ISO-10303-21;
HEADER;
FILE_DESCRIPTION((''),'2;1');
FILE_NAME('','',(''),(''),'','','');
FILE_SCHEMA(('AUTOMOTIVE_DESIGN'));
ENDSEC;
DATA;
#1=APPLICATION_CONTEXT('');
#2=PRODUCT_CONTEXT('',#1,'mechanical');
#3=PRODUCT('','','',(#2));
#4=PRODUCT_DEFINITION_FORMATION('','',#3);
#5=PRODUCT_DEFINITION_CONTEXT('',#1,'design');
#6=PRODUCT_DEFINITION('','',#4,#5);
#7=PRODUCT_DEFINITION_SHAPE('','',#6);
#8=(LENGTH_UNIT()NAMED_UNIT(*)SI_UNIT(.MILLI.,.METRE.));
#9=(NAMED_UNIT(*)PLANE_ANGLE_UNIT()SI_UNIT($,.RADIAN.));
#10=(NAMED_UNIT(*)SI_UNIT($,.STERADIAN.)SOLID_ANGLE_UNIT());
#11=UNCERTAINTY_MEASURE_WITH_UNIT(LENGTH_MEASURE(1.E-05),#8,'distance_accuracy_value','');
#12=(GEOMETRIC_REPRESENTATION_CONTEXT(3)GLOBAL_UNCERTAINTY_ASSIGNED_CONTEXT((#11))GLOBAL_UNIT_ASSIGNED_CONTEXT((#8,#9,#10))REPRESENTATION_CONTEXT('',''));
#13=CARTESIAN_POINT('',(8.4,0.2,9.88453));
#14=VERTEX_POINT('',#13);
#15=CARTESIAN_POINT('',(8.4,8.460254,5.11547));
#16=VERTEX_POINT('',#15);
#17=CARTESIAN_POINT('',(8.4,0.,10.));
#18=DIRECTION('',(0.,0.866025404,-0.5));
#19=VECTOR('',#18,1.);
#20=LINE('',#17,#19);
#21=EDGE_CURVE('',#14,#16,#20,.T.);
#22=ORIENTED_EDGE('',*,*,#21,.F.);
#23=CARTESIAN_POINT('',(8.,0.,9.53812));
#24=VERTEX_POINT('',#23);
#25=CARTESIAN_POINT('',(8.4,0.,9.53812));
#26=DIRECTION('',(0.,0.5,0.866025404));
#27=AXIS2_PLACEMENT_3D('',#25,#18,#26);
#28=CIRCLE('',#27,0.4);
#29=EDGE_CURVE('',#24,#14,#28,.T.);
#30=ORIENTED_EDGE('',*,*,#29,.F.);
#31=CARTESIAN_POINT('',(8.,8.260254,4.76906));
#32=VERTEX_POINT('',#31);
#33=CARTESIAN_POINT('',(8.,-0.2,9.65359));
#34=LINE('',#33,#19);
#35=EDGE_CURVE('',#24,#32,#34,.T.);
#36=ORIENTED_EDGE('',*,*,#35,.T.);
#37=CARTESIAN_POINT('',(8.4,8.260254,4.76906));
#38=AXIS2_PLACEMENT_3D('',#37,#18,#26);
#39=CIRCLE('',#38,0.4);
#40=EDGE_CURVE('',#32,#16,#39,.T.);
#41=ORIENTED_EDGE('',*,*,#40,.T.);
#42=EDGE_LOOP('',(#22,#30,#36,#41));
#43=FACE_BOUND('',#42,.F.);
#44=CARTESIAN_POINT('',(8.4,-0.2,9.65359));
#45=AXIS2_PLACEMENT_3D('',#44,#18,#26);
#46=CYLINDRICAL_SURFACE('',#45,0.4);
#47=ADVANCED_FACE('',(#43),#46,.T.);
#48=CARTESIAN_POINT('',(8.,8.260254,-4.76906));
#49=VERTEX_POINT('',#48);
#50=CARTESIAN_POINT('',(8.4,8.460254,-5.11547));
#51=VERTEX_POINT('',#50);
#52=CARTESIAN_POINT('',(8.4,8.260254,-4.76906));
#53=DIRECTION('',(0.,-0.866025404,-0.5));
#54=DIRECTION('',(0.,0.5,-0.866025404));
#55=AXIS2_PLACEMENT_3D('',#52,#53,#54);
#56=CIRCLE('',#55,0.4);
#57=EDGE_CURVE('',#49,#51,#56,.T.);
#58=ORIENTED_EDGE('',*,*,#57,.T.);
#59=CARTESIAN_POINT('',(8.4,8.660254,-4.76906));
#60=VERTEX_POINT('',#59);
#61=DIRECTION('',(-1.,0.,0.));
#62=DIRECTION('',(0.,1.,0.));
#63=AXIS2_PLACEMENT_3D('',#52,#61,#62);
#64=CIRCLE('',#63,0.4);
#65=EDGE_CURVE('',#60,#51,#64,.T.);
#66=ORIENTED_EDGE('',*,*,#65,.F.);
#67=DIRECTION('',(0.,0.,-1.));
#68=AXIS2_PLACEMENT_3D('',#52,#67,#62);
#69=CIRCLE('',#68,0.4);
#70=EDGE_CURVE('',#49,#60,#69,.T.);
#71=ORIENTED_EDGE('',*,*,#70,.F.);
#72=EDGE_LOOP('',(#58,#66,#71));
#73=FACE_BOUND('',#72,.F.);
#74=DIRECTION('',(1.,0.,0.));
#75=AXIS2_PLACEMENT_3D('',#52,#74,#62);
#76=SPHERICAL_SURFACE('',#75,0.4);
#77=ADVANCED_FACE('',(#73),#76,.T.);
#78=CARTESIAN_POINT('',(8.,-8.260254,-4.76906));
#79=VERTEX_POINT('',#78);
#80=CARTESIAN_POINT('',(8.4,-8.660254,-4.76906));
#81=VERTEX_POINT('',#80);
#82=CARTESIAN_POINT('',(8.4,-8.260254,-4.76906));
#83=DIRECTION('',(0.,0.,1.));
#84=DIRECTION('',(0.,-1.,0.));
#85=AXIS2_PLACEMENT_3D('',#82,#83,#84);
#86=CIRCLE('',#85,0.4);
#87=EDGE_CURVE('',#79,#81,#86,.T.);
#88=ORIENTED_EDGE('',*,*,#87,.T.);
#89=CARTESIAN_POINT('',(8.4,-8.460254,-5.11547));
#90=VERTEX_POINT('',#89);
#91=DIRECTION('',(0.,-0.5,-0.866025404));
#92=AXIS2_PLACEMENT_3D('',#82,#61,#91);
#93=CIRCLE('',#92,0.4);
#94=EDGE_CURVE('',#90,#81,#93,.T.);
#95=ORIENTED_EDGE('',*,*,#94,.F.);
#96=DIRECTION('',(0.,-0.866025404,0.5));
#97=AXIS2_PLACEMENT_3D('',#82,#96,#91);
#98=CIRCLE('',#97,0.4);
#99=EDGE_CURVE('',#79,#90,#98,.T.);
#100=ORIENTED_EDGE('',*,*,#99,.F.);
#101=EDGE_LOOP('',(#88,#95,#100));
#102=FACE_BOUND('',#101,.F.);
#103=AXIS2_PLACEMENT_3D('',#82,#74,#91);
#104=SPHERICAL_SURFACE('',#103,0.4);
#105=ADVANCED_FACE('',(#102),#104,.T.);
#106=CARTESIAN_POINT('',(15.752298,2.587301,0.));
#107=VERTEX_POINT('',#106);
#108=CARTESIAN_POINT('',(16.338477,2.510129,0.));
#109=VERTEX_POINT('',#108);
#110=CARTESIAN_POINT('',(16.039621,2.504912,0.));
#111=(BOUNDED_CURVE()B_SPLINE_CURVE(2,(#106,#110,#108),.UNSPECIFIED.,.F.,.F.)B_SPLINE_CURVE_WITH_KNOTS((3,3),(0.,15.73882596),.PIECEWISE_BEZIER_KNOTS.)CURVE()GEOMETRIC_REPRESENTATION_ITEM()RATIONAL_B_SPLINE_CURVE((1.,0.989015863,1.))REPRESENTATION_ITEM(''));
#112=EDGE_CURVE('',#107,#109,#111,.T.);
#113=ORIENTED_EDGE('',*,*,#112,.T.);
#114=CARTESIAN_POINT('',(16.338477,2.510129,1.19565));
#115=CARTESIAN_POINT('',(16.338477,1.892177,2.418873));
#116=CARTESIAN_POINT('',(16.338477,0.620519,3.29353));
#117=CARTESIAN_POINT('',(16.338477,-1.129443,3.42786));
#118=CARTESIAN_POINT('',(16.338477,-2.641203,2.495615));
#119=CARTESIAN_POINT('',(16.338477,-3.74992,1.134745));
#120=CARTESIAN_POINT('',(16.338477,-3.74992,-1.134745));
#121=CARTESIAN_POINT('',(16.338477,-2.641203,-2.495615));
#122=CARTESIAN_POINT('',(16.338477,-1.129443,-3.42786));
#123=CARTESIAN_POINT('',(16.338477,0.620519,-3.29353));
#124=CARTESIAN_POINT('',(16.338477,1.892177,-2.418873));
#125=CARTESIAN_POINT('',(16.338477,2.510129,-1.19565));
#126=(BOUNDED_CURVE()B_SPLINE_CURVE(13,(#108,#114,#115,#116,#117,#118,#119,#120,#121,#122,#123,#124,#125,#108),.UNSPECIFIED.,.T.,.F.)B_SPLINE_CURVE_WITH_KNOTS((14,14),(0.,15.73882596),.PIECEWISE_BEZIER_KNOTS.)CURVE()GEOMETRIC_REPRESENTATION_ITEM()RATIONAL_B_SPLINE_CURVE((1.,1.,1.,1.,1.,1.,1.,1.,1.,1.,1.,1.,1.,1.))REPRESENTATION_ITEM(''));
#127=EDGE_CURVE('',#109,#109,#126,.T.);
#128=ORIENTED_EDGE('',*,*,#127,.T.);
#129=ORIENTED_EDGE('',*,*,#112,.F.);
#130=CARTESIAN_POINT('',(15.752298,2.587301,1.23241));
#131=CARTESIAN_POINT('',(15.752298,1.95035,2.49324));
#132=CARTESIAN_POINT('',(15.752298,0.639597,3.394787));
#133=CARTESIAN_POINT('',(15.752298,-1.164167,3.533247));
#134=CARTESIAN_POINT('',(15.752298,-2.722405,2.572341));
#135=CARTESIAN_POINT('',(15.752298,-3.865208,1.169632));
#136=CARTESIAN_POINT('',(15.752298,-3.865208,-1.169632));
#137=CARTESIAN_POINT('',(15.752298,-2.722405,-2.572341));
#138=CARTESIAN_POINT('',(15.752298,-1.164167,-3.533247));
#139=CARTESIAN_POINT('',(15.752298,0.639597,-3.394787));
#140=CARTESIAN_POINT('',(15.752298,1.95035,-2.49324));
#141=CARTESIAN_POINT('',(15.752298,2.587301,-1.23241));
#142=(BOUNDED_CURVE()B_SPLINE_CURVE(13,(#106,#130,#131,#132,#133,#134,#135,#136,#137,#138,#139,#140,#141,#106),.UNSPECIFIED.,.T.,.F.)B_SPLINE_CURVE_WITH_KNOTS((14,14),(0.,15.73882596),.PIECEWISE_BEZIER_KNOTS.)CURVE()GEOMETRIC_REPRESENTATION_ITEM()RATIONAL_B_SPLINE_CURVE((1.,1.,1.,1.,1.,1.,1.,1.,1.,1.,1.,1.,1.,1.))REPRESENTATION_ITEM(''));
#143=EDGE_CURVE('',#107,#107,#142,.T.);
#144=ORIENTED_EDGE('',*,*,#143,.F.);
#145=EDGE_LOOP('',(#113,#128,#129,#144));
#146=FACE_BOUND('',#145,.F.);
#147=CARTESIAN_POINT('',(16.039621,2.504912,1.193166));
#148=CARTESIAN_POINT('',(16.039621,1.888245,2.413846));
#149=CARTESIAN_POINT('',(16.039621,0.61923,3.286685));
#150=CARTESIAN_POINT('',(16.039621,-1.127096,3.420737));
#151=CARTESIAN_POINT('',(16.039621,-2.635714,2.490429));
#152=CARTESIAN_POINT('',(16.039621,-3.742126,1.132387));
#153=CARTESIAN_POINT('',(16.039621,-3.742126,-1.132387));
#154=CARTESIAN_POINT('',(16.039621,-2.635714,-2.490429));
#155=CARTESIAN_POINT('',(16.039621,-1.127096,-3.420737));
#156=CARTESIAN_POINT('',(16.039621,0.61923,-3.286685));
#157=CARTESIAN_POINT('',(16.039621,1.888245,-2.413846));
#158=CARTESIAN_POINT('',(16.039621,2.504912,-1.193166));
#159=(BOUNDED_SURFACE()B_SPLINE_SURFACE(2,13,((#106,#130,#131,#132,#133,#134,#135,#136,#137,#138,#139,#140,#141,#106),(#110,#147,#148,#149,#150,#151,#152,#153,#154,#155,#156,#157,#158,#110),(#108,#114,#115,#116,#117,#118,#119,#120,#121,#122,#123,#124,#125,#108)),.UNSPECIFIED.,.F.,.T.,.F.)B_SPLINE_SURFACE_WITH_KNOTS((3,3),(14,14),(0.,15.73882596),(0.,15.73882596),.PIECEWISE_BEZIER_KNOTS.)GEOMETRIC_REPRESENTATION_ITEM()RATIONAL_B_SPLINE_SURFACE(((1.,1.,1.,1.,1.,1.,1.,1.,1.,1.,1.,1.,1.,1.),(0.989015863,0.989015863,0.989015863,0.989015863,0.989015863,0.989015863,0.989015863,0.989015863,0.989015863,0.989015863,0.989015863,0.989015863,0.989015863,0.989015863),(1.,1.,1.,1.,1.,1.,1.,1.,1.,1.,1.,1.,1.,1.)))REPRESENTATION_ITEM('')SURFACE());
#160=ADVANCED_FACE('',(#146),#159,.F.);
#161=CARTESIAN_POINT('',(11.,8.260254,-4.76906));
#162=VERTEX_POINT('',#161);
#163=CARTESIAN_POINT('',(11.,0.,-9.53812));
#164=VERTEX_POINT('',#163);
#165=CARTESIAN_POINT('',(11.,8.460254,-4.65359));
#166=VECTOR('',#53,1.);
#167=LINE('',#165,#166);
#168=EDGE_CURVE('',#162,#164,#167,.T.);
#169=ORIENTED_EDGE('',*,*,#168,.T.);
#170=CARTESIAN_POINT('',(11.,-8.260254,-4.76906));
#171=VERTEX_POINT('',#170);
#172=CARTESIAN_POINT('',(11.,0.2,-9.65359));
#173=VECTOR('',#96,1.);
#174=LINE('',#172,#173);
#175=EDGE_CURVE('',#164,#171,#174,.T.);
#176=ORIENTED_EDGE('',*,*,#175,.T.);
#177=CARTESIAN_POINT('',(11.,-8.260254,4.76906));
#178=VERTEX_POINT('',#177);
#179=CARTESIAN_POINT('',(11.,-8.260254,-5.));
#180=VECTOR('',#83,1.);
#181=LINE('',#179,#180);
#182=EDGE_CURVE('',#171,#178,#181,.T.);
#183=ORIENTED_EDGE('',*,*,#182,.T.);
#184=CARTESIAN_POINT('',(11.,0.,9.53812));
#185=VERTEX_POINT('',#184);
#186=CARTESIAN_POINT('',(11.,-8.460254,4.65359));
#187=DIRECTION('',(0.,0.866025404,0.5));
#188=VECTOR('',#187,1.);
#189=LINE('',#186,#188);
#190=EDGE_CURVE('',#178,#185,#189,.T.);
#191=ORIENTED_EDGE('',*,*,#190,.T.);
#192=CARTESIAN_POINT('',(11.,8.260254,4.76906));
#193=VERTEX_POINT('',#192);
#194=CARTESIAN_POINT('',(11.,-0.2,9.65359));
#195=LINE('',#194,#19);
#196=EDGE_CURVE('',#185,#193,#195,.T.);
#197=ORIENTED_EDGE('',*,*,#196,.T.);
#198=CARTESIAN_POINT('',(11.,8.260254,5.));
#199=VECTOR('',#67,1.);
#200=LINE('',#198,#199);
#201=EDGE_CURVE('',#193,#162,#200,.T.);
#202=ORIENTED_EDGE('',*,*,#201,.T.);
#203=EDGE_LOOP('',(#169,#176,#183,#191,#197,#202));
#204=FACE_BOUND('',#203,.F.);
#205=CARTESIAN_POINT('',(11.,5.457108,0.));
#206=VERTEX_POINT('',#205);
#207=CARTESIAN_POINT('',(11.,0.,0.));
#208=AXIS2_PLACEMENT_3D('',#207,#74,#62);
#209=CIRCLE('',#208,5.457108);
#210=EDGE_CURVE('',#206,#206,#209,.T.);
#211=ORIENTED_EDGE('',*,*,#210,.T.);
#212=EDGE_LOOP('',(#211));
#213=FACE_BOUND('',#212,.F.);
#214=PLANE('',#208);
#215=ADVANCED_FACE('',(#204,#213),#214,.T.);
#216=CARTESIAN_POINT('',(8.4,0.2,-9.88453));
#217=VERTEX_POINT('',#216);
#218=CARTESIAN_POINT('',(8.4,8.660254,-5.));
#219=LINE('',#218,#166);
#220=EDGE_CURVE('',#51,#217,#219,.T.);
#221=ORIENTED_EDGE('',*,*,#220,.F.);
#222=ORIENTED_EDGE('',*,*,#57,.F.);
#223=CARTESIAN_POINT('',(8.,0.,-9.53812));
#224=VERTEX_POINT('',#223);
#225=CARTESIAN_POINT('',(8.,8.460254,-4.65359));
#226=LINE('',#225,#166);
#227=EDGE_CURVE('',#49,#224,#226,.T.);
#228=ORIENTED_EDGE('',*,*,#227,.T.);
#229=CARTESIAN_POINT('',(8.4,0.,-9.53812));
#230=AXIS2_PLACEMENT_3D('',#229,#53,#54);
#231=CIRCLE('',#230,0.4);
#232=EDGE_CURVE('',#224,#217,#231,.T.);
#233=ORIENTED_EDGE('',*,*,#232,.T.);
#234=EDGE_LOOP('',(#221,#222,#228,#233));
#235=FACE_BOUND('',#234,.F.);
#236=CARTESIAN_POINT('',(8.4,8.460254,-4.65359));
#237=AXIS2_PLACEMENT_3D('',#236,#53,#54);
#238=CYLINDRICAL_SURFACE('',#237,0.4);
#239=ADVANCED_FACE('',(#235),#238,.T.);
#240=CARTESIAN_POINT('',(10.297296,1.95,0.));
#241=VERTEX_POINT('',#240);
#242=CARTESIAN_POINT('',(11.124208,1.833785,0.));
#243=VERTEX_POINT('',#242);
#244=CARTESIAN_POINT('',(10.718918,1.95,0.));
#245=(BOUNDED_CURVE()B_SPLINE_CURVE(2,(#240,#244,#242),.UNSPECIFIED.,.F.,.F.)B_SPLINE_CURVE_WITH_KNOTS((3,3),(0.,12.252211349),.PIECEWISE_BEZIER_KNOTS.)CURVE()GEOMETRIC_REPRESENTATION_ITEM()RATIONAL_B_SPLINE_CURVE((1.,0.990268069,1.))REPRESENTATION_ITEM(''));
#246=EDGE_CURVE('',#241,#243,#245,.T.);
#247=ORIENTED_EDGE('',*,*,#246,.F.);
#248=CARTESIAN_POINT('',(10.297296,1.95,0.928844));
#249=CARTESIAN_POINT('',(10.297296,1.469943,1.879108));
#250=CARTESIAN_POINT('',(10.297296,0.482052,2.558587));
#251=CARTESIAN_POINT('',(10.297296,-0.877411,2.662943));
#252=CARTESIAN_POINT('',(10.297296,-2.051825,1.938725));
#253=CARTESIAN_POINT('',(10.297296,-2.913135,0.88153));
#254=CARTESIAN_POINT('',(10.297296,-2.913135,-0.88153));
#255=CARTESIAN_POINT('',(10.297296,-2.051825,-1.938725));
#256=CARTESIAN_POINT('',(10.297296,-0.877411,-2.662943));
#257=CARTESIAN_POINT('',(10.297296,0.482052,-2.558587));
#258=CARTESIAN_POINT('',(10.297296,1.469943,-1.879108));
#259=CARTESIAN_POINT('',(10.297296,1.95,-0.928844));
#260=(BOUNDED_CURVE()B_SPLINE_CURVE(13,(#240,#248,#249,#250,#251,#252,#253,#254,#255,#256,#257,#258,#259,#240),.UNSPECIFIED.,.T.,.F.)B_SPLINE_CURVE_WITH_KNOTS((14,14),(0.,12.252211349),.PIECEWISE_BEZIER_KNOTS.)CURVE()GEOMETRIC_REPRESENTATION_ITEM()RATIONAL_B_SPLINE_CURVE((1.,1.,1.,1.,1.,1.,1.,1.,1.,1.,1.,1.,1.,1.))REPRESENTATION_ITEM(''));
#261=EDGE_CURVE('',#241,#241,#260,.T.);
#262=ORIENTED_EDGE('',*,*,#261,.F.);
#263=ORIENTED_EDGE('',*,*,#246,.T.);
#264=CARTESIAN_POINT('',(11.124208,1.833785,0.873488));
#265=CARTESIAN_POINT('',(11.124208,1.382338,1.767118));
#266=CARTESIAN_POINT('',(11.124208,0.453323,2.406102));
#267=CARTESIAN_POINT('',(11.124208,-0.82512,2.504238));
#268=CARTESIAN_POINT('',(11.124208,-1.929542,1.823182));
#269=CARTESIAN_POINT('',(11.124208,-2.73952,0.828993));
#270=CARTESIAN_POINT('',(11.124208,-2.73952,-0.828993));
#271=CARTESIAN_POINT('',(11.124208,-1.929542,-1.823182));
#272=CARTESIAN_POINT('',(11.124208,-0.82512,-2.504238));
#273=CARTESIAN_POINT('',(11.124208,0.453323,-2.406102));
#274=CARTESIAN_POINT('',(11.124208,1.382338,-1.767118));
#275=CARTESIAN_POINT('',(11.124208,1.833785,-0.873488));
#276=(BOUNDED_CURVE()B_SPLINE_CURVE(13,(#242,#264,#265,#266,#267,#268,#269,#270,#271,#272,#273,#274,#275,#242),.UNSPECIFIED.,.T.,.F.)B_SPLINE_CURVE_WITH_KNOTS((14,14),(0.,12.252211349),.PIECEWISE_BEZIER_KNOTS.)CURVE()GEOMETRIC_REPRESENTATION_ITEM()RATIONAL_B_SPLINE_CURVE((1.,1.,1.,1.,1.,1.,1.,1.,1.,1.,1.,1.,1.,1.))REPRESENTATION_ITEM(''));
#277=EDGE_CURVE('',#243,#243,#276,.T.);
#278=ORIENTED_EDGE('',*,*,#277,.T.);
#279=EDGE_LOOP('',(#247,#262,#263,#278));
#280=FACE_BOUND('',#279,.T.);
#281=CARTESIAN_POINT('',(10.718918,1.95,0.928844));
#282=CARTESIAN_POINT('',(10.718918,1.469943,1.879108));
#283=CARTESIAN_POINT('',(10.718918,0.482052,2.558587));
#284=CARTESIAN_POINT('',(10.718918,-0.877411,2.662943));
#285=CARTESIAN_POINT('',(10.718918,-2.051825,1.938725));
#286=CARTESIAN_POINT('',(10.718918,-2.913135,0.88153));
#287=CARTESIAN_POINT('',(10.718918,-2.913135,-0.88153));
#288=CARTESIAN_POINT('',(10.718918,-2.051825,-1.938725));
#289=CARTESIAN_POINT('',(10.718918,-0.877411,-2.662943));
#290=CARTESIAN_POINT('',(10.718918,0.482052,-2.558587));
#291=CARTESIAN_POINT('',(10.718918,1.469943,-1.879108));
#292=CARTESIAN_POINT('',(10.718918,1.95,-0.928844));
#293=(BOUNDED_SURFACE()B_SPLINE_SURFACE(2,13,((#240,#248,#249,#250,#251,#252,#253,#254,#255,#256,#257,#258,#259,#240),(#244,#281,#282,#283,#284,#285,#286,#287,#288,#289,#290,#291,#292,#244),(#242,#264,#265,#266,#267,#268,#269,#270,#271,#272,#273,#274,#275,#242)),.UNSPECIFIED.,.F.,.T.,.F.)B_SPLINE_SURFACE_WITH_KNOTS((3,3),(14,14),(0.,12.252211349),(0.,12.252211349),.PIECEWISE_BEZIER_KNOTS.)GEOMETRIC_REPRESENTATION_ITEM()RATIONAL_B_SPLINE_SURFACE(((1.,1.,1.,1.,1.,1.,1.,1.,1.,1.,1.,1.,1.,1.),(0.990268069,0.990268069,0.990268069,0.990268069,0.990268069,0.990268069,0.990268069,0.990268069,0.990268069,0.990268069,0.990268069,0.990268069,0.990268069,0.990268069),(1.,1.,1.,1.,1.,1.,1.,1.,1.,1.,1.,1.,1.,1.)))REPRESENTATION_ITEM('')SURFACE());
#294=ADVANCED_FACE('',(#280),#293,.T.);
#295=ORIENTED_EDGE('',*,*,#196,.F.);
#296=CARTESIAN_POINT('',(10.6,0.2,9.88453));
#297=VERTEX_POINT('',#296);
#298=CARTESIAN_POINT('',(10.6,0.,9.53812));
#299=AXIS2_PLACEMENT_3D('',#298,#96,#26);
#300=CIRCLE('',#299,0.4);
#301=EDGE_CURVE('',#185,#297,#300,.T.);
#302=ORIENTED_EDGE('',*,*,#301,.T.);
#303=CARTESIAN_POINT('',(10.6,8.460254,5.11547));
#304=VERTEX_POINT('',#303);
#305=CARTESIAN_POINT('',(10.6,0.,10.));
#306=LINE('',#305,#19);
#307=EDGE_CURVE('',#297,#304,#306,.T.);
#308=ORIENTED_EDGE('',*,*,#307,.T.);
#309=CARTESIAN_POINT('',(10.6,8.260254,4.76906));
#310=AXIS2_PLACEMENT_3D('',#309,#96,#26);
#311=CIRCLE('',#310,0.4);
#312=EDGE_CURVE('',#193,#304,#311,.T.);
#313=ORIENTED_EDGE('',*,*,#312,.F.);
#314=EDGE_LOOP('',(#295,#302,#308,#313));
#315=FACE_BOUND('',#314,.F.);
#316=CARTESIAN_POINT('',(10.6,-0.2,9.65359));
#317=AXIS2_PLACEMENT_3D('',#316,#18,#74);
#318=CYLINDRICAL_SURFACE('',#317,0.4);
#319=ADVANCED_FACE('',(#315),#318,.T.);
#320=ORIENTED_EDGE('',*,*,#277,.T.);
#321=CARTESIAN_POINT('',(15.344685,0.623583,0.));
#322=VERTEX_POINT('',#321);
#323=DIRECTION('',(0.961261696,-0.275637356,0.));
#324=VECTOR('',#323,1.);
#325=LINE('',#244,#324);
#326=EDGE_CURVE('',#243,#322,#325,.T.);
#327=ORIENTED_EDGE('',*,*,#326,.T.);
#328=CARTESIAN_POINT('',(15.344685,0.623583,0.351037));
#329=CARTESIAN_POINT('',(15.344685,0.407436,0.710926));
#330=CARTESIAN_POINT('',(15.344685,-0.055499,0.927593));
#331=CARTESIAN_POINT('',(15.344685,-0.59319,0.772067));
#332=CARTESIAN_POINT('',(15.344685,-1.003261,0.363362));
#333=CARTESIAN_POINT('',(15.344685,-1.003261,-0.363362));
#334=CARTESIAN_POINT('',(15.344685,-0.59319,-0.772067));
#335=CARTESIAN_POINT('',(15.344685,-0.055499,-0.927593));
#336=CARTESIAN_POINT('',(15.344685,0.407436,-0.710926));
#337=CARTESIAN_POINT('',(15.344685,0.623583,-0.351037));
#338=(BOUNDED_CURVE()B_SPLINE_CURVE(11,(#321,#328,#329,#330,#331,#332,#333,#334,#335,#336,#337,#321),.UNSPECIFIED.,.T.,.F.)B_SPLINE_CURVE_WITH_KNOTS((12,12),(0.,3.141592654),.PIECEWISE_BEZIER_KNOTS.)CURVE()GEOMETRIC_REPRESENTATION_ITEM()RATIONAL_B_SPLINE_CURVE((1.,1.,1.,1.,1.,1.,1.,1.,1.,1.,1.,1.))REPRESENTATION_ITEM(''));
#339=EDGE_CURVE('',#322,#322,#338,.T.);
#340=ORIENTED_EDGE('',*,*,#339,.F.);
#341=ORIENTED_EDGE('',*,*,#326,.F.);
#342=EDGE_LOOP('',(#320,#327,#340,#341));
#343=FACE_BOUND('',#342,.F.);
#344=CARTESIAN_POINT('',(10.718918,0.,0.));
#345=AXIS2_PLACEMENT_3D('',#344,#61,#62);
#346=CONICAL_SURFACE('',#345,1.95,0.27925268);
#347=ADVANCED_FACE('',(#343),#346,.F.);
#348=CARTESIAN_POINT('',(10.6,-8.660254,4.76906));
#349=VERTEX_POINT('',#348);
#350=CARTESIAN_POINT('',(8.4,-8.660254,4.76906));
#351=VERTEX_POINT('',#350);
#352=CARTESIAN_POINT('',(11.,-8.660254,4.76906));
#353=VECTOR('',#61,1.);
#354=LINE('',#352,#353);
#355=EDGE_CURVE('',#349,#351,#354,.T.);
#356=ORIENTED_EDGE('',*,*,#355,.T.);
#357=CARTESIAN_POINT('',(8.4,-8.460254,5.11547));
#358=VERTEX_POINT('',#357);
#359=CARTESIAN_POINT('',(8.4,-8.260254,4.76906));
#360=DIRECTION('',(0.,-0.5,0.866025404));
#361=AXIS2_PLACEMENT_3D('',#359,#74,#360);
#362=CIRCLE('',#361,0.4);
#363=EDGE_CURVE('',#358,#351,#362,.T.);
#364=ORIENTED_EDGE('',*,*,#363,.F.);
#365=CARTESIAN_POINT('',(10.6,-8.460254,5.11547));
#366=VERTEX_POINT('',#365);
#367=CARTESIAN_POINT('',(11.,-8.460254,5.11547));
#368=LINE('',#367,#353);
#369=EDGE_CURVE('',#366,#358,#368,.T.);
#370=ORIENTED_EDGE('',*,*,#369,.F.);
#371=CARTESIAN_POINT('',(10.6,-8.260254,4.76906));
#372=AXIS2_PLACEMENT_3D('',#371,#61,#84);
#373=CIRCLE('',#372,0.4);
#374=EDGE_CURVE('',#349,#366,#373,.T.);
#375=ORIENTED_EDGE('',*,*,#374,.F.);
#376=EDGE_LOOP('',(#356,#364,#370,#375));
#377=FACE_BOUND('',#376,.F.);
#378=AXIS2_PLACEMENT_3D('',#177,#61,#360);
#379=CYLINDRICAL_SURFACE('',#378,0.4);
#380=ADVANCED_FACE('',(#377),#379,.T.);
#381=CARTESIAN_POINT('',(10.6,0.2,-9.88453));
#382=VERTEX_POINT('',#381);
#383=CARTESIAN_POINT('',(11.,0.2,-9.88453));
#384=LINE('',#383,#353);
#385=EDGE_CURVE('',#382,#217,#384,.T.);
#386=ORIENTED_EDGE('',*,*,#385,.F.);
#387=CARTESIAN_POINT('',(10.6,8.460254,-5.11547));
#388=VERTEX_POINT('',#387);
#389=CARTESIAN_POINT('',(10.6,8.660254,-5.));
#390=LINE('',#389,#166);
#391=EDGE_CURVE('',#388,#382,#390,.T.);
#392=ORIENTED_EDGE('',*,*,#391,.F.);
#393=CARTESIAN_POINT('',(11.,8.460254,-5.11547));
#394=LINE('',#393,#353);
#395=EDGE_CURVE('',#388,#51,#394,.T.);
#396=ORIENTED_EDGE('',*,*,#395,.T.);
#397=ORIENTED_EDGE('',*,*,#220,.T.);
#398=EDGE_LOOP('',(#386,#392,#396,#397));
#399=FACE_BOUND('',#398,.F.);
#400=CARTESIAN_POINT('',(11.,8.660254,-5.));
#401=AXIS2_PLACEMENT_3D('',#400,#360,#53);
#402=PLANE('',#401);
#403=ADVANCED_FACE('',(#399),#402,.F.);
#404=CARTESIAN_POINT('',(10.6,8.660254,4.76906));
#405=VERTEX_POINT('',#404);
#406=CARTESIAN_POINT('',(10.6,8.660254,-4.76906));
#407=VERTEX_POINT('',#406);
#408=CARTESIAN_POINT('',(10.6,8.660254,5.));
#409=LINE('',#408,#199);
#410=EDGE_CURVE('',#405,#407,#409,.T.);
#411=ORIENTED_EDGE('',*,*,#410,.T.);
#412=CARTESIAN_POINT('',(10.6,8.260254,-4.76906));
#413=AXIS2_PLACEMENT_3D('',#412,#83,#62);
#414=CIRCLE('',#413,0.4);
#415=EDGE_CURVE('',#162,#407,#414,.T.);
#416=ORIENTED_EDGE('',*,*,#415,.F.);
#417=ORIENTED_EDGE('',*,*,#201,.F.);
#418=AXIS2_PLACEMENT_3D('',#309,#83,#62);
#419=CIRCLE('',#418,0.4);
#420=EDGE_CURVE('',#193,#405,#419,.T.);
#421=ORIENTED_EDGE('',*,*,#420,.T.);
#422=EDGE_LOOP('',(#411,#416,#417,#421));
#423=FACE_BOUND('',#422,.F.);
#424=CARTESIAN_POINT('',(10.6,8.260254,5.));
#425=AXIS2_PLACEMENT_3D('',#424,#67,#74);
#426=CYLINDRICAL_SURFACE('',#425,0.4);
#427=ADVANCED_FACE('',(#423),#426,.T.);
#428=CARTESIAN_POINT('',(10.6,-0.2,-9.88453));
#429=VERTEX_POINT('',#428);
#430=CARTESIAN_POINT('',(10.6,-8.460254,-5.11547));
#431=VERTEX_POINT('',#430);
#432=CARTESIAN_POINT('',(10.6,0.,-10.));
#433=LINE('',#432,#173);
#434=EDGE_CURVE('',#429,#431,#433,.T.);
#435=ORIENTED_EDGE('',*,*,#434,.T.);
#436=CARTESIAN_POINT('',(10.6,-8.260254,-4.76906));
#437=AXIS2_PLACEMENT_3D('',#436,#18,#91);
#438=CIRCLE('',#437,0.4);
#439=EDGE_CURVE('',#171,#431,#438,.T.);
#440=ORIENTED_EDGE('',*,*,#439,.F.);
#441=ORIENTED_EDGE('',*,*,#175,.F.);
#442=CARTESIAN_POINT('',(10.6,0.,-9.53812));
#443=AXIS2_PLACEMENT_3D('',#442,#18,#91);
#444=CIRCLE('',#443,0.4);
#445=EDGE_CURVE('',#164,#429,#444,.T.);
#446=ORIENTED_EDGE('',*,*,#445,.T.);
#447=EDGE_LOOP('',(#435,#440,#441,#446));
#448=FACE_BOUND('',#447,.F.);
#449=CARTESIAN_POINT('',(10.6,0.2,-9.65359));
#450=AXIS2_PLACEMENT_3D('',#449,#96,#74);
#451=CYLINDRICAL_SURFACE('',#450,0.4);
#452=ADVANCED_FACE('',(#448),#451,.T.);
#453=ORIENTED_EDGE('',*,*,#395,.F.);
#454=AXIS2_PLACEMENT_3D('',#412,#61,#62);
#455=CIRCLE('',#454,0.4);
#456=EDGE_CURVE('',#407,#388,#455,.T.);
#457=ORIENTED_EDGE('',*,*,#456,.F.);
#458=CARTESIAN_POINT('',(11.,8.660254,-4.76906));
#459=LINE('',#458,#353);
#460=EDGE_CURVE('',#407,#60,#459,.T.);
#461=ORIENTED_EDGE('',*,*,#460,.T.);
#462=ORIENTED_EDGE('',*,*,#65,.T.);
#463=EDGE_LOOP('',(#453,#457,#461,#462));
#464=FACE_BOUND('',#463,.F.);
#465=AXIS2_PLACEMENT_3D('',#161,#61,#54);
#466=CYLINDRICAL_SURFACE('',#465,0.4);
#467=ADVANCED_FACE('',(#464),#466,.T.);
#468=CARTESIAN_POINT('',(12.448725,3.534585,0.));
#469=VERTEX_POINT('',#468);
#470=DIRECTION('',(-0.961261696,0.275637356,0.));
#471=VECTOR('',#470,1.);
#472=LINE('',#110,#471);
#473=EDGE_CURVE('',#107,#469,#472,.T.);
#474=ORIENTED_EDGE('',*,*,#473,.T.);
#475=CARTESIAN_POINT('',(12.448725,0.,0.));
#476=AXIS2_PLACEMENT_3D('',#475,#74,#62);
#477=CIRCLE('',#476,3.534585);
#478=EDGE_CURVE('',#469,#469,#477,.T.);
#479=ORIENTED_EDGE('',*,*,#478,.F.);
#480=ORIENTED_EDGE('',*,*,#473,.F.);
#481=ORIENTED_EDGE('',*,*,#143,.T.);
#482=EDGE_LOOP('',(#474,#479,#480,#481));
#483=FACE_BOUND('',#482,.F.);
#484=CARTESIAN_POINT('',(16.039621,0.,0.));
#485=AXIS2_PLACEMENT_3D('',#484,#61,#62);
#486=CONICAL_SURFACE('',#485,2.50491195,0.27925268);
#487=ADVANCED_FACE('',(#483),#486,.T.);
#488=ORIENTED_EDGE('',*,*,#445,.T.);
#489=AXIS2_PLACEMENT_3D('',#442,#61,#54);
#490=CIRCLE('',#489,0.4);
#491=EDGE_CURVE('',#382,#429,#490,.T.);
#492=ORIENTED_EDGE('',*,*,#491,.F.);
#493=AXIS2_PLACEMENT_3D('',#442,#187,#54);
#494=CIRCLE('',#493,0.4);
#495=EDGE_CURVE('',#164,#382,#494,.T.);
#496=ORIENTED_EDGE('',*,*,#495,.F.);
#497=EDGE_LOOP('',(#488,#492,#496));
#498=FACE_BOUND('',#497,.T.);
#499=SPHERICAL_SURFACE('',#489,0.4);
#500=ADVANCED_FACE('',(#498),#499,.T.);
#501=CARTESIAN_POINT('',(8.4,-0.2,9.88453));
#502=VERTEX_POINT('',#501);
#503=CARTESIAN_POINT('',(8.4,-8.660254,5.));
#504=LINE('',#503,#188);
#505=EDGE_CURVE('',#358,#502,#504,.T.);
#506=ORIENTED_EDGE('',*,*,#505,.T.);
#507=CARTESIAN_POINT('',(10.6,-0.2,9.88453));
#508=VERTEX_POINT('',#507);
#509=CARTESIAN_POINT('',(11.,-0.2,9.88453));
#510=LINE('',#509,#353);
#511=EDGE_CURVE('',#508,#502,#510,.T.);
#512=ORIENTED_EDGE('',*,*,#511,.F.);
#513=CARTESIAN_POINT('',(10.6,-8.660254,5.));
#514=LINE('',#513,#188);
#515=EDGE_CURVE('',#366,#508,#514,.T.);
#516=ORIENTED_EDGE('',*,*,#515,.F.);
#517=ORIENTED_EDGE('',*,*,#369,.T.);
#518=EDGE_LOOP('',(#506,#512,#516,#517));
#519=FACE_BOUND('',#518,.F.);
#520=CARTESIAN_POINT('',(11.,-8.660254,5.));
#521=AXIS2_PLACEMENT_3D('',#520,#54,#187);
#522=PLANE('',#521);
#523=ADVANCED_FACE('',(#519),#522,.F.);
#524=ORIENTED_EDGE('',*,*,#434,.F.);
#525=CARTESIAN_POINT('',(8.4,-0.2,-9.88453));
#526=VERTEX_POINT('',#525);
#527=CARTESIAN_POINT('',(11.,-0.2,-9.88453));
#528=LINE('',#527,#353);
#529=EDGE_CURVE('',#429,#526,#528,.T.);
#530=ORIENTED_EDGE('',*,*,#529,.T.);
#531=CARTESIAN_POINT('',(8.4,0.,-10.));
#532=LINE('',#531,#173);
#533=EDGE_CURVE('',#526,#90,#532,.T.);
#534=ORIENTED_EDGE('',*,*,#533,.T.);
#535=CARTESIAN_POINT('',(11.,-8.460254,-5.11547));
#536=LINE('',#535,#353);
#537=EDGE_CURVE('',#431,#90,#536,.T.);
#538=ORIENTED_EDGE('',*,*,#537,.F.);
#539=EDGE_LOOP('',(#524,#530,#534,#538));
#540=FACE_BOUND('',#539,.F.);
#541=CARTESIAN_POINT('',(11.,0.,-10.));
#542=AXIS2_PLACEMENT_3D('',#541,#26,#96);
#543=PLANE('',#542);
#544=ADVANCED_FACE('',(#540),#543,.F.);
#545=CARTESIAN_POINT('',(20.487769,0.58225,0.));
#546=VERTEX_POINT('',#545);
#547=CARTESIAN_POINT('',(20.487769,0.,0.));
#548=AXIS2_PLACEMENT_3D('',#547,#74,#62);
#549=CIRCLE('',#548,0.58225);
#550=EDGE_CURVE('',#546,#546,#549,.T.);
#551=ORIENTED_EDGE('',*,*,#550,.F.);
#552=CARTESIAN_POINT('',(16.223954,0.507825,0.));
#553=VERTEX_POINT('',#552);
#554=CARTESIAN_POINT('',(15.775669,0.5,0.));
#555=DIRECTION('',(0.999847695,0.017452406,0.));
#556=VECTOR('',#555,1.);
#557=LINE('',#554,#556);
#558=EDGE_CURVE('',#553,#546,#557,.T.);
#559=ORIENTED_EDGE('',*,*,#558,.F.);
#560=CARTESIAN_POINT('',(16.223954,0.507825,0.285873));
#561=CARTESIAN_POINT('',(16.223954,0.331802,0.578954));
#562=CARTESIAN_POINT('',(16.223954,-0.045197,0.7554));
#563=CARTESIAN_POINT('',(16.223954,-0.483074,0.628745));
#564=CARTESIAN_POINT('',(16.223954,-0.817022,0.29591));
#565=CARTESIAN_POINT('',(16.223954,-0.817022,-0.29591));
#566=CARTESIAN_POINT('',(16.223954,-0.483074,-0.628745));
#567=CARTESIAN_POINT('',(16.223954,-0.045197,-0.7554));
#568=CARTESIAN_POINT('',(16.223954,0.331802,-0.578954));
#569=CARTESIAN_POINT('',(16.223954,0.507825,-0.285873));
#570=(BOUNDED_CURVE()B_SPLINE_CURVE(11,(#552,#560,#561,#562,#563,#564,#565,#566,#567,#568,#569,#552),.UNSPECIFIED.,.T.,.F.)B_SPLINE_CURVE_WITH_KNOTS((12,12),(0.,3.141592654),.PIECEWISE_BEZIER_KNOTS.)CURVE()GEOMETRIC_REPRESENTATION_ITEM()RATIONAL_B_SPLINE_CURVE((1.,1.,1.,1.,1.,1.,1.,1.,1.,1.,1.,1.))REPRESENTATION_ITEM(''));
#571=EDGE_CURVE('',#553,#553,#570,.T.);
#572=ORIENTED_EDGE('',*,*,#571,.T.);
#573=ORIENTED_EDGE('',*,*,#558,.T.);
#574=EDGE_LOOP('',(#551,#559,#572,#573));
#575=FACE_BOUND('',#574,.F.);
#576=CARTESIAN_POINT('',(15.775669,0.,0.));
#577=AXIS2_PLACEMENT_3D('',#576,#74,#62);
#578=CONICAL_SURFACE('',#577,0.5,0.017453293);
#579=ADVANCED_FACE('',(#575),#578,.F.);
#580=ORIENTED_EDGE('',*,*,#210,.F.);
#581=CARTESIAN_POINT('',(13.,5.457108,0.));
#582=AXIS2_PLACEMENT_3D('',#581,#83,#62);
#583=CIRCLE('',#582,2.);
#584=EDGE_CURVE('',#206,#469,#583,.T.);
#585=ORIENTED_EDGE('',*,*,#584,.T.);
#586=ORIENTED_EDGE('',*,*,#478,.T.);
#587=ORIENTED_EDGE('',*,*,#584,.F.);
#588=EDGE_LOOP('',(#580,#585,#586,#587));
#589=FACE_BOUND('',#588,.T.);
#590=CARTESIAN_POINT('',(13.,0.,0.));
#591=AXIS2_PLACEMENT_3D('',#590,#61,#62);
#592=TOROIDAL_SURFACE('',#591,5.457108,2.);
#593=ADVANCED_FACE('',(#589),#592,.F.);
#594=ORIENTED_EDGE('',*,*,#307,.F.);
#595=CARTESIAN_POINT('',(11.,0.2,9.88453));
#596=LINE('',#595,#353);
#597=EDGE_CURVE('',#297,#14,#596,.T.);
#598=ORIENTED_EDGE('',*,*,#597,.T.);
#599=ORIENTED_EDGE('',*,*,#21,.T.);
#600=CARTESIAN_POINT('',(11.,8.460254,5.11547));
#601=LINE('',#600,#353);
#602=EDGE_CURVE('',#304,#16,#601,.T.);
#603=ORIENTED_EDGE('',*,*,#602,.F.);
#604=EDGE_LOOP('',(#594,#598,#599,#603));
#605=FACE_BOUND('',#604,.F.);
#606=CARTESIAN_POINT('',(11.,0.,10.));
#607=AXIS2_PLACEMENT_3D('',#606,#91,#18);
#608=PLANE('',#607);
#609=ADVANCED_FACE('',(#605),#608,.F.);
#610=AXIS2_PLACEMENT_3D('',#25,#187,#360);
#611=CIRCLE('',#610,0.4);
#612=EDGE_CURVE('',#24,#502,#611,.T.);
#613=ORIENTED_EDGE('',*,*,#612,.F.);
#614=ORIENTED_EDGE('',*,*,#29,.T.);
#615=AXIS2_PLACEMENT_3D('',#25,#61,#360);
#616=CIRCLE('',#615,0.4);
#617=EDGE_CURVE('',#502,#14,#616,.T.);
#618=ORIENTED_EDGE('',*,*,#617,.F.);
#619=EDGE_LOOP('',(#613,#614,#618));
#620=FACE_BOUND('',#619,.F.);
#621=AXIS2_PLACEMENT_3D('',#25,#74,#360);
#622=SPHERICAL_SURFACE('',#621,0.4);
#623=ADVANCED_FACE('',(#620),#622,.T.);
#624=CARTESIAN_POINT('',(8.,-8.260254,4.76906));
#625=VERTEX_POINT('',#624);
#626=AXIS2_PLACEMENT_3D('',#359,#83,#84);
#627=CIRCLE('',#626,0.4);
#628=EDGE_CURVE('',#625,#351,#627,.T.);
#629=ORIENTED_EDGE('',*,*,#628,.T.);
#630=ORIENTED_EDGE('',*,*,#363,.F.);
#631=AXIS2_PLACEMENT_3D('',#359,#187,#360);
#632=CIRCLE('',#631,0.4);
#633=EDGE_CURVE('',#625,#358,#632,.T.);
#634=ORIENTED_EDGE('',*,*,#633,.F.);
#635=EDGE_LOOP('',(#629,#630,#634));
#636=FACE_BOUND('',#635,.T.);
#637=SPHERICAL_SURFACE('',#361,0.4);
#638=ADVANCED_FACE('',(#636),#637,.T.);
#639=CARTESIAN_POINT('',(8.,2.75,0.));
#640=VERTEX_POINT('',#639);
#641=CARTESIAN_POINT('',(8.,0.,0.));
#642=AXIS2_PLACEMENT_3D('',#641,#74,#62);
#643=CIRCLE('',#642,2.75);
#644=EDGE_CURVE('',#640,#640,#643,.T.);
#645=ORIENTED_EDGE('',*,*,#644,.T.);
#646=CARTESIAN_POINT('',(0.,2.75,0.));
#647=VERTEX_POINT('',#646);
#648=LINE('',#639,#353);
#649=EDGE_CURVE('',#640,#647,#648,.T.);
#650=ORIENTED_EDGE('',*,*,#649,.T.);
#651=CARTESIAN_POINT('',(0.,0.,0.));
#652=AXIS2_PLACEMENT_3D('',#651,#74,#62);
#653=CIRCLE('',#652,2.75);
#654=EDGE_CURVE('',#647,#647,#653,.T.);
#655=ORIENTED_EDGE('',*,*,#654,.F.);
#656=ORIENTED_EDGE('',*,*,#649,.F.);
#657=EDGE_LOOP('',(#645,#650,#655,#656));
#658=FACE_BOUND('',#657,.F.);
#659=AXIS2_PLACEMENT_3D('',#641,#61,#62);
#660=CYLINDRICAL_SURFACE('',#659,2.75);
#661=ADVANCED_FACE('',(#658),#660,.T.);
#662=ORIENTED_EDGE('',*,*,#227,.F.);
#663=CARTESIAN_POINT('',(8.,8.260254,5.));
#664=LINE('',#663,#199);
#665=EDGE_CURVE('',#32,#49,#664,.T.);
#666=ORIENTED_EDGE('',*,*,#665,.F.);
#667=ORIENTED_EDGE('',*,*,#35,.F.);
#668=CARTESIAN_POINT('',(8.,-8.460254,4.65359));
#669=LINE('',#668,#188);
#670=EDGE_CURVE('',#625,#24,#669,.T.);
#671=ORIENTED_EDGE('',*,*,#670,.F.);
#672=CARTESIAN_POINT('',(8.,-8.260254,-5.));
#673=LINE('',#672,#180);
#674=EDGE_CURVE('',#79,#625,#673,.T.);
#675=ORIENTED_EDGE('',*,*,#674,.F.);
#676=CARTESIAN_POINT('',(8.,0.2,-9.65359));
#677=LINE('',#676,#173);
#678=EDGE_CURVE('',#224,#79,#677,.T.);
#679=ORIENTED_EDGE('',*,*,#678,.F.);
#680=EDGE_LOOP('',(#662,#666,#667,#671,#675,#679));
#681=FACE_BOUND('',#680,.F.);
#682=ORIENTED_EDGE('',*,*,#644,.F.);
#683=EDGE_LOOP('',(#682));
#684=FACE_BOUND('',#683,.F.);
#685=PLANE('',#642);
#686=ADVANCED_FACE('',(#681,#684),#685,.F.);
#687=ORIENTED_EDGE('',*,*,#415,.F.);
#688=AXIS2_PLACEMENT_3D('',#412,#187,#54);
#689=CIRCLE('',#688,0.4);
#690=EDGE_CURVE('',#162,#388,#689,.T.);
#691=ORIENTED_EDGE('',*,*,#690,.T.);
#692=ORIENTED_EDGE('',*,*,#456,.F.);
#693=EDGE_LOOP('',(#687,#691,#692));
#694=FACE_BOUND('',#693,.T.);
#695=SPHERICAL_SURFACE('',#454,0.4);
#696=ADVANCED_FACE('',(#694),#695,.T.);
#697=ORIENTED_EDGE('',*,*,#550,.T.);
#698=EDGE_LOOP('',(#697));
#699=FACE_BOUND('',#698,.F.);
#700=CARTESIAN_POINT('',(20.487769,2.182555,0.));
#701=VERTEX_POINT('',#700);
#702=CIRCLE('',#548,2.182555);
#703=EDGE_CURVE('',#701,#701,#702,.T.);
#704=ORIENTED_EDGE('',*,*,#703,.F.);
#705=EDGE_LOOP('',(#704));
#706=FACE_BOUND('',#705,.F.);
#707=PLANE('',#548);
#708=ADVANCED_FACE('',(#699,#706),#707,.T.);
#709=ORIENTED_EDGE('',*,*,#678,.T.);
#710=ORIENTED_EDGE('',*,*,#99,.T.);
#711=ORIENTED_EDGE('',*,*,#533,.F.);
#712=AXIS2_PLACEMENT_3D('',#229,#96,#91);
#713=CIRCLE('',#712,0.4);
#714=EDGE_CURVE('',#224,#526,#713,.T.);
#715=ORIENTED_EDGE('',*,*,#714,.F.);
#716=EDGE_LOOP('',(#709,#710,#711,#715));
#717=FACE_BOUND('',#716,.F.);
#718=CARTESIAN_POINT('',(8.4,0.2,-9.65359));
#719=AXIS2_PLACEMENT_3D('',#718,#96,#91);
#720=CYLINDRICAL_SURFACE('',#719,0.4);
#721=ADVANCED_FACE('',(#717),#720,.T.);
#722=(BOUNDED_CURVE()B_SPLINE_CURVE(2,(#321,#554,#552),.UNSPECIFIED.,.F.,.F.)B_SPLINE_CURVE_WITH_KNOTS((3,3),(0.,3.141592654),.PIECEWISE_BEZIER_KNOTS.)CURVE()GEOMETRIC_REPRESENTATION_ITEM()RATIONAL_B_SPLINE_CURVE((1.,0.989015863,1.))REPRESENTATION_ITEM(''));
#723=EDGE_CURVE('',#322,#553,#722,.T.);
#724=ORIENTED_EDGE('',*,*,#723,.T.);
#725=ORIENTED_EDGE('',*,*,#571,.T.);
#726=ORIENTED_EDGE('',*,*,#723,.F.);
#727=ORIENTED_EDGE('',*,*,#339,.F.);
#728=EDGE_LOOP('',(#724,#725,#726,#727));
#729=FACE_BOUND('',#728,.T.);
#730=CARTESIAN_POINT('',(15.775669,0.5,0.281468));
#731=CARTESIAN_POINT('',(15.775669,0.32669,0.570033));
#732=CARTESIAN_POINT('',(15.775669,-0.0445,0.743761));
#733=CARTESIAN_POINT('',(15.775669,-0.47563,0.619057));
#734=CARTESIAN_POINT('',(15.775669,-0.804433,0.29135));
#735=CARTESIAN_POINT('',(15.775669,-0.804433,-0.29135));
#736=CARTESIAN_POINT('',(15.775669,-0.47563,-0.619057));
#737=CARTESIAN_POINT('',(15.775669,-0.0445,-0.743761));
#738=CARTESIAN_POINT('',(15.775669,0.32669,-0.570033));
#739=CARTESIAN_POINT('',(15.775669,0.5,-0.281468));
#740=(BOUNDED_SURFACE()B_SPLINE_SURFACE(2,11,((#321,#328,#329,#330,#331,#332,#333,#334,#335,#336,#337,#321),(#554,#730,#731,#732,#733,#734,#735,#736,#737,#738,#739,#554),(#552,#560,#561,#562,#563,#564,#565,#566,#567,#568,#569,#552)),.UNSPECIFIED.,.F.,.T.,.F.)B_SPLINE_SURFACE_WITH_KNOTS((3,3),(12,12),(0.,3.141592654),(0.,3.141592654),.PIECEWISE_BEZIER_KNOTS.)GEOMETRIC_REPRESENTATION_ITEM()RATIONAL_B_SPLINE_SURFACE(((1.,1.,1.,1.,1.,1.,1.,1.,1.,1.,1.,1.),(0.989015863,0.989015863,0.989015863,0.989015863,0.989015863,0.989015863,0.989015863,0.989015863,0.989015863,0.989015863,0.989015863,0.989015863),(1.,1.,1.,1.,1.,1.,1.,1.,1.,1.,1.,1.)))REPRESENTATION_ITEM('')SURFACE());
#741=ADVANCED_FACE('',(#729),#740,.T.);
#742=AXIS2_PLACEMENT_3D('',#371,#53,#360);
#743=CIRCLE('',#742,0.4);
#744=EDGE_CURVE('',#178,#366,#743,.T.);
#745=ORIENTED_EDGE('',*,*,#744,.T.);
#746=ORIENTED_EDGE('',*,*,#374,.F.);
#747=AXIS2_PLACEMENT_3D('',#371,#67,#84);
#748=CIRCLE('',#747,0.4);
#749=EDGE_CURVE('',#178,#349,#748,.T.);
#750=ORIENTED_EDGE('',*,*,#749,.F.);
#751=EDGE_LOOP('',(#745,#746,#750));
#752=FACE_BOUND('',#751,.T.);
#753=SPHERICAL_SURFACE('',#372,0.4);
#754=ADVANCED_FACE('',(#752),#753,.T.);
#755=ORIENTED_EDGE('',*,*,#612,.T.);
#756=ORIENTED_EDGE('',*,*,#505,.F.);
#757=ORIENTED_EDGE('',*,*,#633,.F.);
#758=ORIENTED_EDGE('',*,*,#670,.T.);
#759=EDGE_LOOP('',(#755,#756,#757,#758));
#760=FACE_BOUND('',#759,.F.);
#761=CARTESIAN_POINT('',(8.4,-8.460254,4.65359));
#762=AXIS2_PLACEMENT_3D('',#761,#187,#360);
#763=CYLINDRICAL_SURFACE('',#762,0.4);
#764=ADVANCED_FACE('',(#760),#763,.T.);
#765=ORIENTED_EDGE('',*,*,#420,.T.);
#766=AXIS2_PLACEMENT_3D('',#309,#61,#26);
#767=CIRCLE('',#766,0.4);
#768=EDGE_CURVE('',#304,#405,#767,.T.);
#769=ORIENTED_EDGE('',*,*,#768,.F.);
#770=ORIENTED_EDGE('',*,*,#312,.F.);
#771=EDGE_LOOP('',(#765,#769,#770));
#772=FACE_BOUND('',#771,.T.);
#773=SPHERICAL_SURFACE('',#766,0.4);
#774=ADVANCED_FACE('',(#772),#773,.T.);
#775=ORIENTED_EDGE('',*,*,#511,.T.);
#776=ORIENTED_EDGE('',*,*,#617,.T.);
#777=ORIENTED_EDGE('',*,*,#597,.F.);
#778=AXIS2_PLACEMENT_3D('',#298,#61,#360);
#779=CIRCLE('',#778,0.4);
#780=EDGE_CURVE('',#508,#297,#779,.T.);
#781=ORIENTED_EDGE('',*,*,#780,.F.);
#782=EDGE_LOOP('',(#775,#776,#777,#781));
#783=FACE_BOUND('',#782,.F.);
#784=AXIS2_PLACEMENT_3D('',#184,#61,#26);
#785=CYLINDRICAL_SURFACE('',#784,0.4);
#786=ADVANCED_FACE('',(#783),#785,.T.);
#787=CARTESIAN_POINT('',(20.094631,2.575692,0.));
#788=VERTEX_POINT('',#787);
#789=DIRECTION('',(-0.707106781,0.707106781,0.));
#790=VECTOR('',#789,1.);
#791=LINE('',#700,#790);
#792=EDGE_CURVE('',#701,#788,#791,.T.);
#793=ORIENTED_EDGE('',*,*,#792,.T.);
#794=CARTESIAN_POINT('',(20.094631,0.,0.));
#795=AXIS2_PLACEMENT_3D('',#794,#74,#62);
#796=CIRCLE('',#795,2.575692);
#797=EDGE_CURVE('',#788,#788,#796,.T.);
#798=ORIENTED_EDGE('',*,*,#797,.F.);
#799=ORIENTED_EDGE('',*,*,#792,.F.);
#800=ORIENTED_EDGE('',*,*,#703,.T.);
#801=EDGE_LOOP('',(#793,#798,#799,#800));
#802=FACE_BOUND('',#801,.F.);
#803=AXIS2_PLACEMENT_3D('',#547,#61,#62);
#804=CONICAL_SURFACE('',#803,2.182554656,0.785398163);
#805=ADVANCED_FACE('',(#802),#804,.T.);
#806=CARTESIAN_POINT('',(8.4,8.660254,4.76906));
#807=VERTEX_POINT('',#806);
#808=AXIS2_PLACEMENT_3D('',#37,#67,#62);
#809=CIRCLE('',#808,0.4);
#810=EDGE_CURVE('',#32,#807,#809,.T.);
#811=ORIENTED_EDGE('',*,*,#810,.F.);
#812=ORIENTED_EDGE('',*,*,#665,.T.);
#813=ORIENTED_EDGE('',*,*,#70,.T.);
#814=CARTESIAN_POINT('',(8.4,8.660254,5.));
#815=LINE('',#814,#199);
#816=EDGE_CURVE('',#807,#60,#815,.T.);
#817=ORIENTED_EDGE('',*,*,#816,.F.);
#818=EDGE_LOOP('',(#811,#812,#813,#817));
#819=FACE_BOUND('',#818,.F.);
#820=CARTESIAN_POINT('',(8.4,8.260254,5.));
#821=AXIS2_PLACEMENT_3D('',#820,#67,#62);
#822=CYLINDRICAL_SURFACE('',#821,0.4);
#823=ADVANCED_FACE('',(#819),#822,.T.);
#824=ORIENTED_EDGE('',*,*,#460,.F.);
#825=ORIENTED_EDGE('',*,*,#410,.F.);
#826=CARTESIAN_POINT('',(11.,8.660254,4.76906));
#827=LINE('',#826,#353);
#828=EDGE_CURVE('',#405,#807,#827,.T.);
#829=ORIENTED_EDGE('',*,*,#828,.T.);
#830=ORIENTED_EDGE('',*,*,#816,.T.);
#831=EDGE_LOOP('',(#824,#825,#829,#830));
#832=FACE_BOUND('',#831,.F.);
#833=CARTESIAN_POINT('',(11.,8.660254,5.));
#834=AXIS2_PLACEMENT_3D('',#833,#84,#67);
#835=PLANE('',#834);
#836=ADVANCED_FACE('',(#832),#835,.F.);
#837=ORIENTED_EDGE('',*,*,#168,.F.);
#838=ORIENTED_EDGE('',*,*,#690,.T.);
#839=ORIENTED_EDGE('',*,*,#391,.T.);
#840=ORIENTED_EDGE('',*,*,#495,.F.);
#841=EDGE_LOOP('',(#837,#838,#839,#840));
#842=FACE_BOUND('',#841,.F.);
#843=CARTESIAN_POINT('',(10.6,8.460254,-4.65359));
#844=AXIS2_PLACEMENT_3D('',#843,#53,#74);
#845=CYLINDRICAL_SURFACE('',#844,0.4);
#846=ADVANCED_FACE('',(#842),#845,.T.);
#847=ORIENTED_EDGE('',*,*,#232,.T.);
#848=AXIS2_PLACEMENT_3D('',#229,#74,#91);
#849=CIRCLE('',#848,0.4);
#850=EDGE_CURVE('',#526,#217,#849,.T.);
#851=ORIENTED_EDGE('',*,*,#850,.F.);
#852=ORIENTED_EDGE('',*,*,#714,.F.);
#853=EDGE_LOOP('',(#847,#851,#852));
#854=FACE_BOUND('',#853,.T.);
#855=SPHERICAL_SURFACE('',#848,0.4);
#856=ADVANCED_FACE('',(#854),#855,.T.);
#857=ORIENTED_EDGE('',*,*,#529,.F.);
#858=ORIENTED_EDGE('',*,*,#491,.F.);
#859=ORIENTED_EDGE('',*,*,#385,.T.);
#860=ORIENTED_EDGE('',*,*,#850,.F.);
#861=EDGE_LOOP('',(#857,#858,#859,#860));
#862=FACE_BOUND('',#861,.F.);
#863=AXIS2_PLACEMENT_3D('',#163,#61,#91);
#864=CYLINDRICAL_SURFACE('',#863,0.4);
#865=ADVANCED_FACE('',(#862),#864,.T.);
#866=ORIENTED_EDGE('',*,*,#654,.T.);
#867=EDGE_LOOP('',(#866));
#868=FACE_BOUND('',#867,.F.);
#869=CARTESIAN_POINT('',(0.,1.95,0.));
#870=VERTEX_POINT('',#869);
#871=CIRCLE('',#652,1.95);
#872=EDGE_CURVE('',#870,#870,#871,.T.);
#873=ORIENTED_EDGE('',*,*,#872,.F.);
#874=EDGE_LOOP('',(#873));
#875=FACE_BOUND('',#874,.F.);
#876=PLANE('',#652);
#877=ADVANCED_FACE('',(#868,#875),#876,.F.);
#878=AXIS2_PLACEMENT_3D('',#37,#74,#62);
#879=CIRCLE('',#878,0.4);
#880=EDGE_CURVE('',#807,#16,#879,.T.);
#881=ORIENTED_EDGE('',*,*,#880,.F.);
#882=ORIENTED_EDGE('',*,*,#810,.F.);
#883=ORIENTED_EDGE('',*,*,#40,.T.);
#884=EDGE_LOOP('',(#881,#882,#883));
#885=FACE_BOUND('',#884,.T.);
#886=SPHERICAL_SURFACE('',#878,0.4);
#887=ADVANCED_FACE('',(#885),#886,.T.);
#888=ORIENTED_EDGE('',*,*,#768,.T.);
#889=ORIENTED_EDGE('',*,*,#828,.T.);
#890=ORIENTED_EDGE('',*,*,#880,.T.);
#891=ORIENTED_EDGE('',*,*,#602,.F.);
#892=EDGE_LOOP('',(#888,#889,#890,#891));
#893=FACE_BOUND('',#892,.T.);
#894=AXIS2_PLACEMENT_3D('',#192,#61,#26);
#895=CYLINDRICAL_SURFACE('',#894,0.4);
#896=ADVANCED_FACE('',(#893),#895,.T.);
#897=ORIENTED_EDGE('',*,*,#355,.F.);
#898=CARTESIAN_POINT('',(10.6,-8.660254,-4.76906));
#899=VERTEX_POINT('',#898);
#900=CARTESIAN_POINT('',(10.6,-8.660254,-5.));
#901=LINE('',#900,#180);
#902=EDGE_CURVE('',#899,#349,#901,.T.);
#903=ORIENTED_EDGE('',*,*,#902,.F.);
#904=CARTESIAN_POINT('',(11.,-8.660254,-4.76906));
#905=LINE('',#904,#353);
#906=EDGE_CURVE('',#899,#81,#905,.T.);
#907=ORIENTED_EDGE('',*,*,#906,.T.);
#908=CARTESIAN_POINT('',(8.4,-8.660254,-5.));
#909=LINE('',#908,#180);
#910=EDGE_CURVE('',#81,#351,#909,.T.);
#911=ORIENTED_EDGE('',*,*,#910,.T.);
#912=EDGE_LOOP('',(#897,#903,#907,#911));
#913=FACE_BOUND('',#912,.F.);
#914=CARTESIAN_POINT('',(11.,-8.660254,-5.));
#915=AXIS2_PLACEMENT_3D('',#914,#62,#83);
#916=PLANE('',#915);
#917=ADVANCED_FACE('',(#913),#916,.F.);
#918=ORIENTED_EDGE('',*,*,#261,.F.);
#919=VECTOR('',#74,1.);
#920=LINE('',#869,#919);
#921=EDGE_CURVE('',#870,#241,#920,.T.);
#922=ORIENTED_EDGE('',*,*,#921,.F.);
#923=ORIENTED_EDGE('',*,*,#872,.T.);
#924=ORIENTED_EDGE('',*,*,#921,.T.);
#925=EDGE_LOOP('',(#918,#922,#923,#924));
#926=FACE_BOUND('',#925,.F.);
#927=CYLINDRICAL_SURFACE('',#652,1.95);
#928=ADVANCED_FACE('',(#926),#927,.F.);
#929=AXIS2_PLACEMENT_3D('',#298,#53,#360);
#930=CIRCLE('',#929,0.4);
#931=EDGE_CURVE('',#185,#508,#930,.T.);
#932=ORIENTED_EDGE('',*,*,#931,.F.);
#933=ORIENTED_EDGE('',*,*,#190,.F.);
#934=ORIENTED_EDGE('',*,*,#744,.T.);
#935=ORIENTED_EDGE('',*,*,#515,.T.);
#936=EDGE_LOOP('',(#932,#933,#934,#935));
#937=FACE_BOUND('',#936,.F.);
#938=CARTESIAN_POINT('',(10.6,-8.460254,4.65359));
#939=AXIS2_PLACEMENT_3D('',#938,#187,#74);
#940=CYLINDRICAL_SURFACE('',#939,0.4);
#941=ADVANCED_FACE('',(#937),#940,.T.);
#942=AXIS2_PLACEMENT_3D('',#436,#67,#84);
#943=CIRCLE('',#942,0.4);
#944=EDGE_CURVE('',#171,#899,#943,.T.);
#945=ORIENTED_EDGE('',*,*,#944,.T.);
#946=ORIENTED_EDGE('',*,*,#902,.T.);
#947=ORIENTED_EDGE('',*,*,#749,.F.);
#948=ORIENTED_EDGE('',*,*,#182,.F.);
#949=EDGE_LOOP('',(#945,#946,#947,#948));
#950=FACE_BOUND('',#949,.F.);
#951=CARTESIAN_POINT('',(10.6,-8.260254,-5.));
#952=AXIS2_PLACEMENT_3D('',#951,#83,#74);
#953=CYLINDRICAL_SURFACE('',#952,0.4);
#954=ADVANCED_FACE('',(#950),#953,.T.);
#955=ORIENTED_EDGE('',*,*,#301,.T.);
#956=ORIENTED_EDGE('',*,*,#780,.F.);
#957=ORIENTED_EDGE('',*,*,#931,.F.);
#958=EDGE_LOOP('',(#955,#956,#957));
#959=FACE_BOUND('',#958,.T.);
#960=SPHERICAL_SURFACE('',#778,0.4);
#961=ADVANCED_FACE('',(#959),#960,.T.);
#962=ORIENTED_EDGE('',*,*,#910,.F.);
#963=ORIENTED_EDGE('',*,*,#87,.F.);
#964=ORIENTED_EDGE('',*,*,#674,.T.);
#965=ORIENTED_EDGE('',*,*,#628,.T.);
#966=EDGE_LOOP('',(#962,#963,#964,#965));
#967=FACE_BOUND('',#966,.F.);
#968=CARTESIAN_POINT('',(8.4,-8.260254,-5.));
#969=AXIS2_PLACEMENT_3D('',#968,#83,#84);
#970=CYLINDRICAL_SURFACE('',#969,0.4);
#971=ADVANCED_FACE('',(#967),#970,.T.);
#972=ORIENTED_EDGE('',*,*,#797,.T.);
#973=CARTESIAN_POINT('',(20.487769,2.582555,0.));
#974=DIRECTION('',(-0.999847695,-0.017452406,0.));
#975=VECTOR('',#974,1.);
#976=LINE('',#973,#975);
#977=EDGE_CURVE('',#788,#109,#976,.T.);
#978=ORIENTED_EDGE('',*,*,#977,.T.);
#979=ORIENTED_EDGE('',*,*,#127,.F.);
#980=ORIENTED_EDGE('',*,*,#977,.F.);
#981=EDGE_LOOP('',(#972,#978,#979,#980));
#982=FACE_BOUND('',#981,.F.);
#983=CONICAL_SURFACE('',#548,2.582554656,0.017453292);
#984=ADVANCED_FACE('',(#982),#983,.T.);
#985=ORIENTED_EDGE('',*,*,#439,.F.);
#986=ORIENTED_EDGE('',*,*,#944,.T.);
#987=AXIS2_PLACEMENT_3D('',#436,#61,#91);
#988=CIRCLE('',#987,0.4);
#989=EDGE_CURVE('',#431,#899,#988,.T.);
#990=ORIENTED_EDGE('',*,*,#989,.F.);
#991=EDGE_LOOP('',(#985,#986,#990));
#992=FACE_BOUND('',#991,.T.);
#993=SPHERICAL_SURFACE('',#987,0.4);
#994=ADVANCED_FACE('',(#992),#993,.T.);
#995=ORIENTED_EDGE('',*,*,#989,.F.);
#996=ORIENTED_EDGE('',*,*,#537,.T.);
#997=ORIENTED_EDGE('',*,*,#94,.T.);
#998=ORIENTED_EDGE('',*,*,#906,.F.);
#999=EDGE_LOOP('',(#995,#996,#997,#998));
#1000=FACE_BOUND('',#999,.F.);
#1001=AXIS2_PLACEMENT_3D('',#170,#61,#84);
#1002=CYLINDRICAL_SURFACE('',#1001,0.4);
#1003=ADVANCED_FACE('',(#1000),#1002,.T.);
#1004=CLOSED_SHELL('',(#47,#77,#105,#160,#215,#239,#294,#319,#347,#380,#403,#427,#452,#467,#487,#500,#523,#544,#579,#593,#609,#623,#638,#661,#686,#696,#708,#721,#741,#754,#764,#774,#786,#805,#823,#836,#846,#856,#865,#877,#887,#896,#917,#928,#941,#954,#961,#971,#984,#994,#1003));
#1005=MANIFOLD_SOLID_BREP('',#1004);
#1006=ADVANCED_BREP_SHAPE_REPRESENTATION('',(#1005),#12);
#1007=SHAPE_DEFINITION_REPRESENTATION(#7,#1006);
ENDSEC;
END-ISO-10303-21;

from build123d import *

# Parameters (mm, degrees)
FILLET4_R               = 3
CHAMFER1_SIZE2          = 0.393197641
CHAMFER1_SIZE           = 0.4
CUT_EXTRUDE1_DEPTH      = 10.487768718
CUT_EXTRUDE1_DEPTH_BACK = 12.0000001
FILLET5_R               = 0.4
FILLET6_R               = 2


with BuildPart() as part:
    # Sketch1 → Revolve1 (revolve)
    with BuildSketch(Plane.XY):
        Polygon((0, 1.95), (10.718918331, 1.95), (15.775669274, 0.5), (20.487768618, 0.58225), (20.487768618, 2.582554656), (16.03962094, 2.50491195), (11, 3.95), (11, 10), (8, 10), (8, 2.75), (0, 2.75), align=None)
    revolve(axis=Axis((0, 0, 0), (1, 0, 0)))

    # Fillet4
    fillet4_edges = [part.edges().sort_by_distance(p)[0] for p in [
        (15.775669274, -0.5, 0),
        (10.718918331, -1.95, 0),
    ]]
    fillet(fillet4_edges, radius=FILLET4_R)

    # Chamfer1
    chamfer1_edges = [part.edges().sort_by_distance(p)[0] for p in [
        (20.487768618, -2.582554656, 0),
    ]]
    chamfer(chamfer1_edges, length=CHAMFER1_SIZE, length2=CHAMFER1_SIZE2)

    # Sketch2 → Cut-Extrude1 (cut, two sides)
    with BuildSketch(Plane(origin=(11, 0, 0), x_dir=(0, 0, -1), z_dir=(1, 0, 0))) as cut_extrude1_sk:
        with BuildLine():
            Line((-10, 0), (-5, 8.660254038))
            ThreePointArc((-5, 8.660254038), (-8.660254038, 5), (-10, 0))
        make_face()
        with BuildLine():
            Line((-5, 8.660254038), (5, 8.660254038))
            ThreePointArc((5, 8.660254038), (0, 10), (-5, 8.660254038))
        make_face()
        with BuildLine():
            Line((5, 8.660254038), (10, 0))
            ThreePointArc((10, 0), (8.660254038, 5), (5, 8.660254038))
        make_face()
        with BuildLine():
            ThreePointArc((-10, 0), (-8.660254038, -5), (-5, -8.660254038))
            Line((-5, -8.660254038), (-10, 0))
        make_face()
        with BuildLine():
            ThreePointArc((-5, -8.660254038), (0, -10), (5, -8.660254038))
            Line((5, -8.660254038), (-5, -8.660254038))
        make_face()
        with BuildLine():
            ThreePointArc((5, -8.660254038), (8.660254038, -5), (10, 0))
            Line((10, 0), (5, -8.660254038))
        make_face()
    extrude(amount=CUT_EXTRUDE1_DEPTH, mode=Mode.SUBTRACT)
    extrude(cut_extrude1_sk.sketch, amount=-CUT_EXTRUDE1_DEPTH_BACK, mode=Mode.SUBTRACT)

    # Fillet5
    fillet5_edges = [part.edges().sort_by_distance(p)[0] for p in [
        (11, -4.330127019, -7.5),
        (8, -4.330127019, -7.5),
        (8, -8.660254038, 0),
        (8, 4.330127019, -7.5),
        (8, 4.330127019, 7.5),
        (9.5, 8.660254038, 5),
        (11, 4.330127019, 7.5),
        (9.5, 0, 10),
        (9.5, 0, -10),
        (11, 4.330127019, -7.5),
        (9.5, 8.660254038, -5),
        (9.5, -8.660254038, 5),
        (11, -8.660254038, 0),
        (9.5, -8.660254038, -5),
        (11, 8.660254038, 0),
        (8, 8.660254038, 0),
        (11, -4.330127019, 7.5),
        (8, -4.330127019, 7.5),
    ]]
    fillet(fillet5_edges, radius=FILLET5_R)

    # Fillet6
    fillet6_edges = [part.edges().sort_by_distance(p)[0] for p in [
        (11, -3.95, 0),
        (16.03962094, -2.50491195, 0),
    ]]
    fillet(fillet6_edges, radius=FILLET6_R)


solid = part.part
